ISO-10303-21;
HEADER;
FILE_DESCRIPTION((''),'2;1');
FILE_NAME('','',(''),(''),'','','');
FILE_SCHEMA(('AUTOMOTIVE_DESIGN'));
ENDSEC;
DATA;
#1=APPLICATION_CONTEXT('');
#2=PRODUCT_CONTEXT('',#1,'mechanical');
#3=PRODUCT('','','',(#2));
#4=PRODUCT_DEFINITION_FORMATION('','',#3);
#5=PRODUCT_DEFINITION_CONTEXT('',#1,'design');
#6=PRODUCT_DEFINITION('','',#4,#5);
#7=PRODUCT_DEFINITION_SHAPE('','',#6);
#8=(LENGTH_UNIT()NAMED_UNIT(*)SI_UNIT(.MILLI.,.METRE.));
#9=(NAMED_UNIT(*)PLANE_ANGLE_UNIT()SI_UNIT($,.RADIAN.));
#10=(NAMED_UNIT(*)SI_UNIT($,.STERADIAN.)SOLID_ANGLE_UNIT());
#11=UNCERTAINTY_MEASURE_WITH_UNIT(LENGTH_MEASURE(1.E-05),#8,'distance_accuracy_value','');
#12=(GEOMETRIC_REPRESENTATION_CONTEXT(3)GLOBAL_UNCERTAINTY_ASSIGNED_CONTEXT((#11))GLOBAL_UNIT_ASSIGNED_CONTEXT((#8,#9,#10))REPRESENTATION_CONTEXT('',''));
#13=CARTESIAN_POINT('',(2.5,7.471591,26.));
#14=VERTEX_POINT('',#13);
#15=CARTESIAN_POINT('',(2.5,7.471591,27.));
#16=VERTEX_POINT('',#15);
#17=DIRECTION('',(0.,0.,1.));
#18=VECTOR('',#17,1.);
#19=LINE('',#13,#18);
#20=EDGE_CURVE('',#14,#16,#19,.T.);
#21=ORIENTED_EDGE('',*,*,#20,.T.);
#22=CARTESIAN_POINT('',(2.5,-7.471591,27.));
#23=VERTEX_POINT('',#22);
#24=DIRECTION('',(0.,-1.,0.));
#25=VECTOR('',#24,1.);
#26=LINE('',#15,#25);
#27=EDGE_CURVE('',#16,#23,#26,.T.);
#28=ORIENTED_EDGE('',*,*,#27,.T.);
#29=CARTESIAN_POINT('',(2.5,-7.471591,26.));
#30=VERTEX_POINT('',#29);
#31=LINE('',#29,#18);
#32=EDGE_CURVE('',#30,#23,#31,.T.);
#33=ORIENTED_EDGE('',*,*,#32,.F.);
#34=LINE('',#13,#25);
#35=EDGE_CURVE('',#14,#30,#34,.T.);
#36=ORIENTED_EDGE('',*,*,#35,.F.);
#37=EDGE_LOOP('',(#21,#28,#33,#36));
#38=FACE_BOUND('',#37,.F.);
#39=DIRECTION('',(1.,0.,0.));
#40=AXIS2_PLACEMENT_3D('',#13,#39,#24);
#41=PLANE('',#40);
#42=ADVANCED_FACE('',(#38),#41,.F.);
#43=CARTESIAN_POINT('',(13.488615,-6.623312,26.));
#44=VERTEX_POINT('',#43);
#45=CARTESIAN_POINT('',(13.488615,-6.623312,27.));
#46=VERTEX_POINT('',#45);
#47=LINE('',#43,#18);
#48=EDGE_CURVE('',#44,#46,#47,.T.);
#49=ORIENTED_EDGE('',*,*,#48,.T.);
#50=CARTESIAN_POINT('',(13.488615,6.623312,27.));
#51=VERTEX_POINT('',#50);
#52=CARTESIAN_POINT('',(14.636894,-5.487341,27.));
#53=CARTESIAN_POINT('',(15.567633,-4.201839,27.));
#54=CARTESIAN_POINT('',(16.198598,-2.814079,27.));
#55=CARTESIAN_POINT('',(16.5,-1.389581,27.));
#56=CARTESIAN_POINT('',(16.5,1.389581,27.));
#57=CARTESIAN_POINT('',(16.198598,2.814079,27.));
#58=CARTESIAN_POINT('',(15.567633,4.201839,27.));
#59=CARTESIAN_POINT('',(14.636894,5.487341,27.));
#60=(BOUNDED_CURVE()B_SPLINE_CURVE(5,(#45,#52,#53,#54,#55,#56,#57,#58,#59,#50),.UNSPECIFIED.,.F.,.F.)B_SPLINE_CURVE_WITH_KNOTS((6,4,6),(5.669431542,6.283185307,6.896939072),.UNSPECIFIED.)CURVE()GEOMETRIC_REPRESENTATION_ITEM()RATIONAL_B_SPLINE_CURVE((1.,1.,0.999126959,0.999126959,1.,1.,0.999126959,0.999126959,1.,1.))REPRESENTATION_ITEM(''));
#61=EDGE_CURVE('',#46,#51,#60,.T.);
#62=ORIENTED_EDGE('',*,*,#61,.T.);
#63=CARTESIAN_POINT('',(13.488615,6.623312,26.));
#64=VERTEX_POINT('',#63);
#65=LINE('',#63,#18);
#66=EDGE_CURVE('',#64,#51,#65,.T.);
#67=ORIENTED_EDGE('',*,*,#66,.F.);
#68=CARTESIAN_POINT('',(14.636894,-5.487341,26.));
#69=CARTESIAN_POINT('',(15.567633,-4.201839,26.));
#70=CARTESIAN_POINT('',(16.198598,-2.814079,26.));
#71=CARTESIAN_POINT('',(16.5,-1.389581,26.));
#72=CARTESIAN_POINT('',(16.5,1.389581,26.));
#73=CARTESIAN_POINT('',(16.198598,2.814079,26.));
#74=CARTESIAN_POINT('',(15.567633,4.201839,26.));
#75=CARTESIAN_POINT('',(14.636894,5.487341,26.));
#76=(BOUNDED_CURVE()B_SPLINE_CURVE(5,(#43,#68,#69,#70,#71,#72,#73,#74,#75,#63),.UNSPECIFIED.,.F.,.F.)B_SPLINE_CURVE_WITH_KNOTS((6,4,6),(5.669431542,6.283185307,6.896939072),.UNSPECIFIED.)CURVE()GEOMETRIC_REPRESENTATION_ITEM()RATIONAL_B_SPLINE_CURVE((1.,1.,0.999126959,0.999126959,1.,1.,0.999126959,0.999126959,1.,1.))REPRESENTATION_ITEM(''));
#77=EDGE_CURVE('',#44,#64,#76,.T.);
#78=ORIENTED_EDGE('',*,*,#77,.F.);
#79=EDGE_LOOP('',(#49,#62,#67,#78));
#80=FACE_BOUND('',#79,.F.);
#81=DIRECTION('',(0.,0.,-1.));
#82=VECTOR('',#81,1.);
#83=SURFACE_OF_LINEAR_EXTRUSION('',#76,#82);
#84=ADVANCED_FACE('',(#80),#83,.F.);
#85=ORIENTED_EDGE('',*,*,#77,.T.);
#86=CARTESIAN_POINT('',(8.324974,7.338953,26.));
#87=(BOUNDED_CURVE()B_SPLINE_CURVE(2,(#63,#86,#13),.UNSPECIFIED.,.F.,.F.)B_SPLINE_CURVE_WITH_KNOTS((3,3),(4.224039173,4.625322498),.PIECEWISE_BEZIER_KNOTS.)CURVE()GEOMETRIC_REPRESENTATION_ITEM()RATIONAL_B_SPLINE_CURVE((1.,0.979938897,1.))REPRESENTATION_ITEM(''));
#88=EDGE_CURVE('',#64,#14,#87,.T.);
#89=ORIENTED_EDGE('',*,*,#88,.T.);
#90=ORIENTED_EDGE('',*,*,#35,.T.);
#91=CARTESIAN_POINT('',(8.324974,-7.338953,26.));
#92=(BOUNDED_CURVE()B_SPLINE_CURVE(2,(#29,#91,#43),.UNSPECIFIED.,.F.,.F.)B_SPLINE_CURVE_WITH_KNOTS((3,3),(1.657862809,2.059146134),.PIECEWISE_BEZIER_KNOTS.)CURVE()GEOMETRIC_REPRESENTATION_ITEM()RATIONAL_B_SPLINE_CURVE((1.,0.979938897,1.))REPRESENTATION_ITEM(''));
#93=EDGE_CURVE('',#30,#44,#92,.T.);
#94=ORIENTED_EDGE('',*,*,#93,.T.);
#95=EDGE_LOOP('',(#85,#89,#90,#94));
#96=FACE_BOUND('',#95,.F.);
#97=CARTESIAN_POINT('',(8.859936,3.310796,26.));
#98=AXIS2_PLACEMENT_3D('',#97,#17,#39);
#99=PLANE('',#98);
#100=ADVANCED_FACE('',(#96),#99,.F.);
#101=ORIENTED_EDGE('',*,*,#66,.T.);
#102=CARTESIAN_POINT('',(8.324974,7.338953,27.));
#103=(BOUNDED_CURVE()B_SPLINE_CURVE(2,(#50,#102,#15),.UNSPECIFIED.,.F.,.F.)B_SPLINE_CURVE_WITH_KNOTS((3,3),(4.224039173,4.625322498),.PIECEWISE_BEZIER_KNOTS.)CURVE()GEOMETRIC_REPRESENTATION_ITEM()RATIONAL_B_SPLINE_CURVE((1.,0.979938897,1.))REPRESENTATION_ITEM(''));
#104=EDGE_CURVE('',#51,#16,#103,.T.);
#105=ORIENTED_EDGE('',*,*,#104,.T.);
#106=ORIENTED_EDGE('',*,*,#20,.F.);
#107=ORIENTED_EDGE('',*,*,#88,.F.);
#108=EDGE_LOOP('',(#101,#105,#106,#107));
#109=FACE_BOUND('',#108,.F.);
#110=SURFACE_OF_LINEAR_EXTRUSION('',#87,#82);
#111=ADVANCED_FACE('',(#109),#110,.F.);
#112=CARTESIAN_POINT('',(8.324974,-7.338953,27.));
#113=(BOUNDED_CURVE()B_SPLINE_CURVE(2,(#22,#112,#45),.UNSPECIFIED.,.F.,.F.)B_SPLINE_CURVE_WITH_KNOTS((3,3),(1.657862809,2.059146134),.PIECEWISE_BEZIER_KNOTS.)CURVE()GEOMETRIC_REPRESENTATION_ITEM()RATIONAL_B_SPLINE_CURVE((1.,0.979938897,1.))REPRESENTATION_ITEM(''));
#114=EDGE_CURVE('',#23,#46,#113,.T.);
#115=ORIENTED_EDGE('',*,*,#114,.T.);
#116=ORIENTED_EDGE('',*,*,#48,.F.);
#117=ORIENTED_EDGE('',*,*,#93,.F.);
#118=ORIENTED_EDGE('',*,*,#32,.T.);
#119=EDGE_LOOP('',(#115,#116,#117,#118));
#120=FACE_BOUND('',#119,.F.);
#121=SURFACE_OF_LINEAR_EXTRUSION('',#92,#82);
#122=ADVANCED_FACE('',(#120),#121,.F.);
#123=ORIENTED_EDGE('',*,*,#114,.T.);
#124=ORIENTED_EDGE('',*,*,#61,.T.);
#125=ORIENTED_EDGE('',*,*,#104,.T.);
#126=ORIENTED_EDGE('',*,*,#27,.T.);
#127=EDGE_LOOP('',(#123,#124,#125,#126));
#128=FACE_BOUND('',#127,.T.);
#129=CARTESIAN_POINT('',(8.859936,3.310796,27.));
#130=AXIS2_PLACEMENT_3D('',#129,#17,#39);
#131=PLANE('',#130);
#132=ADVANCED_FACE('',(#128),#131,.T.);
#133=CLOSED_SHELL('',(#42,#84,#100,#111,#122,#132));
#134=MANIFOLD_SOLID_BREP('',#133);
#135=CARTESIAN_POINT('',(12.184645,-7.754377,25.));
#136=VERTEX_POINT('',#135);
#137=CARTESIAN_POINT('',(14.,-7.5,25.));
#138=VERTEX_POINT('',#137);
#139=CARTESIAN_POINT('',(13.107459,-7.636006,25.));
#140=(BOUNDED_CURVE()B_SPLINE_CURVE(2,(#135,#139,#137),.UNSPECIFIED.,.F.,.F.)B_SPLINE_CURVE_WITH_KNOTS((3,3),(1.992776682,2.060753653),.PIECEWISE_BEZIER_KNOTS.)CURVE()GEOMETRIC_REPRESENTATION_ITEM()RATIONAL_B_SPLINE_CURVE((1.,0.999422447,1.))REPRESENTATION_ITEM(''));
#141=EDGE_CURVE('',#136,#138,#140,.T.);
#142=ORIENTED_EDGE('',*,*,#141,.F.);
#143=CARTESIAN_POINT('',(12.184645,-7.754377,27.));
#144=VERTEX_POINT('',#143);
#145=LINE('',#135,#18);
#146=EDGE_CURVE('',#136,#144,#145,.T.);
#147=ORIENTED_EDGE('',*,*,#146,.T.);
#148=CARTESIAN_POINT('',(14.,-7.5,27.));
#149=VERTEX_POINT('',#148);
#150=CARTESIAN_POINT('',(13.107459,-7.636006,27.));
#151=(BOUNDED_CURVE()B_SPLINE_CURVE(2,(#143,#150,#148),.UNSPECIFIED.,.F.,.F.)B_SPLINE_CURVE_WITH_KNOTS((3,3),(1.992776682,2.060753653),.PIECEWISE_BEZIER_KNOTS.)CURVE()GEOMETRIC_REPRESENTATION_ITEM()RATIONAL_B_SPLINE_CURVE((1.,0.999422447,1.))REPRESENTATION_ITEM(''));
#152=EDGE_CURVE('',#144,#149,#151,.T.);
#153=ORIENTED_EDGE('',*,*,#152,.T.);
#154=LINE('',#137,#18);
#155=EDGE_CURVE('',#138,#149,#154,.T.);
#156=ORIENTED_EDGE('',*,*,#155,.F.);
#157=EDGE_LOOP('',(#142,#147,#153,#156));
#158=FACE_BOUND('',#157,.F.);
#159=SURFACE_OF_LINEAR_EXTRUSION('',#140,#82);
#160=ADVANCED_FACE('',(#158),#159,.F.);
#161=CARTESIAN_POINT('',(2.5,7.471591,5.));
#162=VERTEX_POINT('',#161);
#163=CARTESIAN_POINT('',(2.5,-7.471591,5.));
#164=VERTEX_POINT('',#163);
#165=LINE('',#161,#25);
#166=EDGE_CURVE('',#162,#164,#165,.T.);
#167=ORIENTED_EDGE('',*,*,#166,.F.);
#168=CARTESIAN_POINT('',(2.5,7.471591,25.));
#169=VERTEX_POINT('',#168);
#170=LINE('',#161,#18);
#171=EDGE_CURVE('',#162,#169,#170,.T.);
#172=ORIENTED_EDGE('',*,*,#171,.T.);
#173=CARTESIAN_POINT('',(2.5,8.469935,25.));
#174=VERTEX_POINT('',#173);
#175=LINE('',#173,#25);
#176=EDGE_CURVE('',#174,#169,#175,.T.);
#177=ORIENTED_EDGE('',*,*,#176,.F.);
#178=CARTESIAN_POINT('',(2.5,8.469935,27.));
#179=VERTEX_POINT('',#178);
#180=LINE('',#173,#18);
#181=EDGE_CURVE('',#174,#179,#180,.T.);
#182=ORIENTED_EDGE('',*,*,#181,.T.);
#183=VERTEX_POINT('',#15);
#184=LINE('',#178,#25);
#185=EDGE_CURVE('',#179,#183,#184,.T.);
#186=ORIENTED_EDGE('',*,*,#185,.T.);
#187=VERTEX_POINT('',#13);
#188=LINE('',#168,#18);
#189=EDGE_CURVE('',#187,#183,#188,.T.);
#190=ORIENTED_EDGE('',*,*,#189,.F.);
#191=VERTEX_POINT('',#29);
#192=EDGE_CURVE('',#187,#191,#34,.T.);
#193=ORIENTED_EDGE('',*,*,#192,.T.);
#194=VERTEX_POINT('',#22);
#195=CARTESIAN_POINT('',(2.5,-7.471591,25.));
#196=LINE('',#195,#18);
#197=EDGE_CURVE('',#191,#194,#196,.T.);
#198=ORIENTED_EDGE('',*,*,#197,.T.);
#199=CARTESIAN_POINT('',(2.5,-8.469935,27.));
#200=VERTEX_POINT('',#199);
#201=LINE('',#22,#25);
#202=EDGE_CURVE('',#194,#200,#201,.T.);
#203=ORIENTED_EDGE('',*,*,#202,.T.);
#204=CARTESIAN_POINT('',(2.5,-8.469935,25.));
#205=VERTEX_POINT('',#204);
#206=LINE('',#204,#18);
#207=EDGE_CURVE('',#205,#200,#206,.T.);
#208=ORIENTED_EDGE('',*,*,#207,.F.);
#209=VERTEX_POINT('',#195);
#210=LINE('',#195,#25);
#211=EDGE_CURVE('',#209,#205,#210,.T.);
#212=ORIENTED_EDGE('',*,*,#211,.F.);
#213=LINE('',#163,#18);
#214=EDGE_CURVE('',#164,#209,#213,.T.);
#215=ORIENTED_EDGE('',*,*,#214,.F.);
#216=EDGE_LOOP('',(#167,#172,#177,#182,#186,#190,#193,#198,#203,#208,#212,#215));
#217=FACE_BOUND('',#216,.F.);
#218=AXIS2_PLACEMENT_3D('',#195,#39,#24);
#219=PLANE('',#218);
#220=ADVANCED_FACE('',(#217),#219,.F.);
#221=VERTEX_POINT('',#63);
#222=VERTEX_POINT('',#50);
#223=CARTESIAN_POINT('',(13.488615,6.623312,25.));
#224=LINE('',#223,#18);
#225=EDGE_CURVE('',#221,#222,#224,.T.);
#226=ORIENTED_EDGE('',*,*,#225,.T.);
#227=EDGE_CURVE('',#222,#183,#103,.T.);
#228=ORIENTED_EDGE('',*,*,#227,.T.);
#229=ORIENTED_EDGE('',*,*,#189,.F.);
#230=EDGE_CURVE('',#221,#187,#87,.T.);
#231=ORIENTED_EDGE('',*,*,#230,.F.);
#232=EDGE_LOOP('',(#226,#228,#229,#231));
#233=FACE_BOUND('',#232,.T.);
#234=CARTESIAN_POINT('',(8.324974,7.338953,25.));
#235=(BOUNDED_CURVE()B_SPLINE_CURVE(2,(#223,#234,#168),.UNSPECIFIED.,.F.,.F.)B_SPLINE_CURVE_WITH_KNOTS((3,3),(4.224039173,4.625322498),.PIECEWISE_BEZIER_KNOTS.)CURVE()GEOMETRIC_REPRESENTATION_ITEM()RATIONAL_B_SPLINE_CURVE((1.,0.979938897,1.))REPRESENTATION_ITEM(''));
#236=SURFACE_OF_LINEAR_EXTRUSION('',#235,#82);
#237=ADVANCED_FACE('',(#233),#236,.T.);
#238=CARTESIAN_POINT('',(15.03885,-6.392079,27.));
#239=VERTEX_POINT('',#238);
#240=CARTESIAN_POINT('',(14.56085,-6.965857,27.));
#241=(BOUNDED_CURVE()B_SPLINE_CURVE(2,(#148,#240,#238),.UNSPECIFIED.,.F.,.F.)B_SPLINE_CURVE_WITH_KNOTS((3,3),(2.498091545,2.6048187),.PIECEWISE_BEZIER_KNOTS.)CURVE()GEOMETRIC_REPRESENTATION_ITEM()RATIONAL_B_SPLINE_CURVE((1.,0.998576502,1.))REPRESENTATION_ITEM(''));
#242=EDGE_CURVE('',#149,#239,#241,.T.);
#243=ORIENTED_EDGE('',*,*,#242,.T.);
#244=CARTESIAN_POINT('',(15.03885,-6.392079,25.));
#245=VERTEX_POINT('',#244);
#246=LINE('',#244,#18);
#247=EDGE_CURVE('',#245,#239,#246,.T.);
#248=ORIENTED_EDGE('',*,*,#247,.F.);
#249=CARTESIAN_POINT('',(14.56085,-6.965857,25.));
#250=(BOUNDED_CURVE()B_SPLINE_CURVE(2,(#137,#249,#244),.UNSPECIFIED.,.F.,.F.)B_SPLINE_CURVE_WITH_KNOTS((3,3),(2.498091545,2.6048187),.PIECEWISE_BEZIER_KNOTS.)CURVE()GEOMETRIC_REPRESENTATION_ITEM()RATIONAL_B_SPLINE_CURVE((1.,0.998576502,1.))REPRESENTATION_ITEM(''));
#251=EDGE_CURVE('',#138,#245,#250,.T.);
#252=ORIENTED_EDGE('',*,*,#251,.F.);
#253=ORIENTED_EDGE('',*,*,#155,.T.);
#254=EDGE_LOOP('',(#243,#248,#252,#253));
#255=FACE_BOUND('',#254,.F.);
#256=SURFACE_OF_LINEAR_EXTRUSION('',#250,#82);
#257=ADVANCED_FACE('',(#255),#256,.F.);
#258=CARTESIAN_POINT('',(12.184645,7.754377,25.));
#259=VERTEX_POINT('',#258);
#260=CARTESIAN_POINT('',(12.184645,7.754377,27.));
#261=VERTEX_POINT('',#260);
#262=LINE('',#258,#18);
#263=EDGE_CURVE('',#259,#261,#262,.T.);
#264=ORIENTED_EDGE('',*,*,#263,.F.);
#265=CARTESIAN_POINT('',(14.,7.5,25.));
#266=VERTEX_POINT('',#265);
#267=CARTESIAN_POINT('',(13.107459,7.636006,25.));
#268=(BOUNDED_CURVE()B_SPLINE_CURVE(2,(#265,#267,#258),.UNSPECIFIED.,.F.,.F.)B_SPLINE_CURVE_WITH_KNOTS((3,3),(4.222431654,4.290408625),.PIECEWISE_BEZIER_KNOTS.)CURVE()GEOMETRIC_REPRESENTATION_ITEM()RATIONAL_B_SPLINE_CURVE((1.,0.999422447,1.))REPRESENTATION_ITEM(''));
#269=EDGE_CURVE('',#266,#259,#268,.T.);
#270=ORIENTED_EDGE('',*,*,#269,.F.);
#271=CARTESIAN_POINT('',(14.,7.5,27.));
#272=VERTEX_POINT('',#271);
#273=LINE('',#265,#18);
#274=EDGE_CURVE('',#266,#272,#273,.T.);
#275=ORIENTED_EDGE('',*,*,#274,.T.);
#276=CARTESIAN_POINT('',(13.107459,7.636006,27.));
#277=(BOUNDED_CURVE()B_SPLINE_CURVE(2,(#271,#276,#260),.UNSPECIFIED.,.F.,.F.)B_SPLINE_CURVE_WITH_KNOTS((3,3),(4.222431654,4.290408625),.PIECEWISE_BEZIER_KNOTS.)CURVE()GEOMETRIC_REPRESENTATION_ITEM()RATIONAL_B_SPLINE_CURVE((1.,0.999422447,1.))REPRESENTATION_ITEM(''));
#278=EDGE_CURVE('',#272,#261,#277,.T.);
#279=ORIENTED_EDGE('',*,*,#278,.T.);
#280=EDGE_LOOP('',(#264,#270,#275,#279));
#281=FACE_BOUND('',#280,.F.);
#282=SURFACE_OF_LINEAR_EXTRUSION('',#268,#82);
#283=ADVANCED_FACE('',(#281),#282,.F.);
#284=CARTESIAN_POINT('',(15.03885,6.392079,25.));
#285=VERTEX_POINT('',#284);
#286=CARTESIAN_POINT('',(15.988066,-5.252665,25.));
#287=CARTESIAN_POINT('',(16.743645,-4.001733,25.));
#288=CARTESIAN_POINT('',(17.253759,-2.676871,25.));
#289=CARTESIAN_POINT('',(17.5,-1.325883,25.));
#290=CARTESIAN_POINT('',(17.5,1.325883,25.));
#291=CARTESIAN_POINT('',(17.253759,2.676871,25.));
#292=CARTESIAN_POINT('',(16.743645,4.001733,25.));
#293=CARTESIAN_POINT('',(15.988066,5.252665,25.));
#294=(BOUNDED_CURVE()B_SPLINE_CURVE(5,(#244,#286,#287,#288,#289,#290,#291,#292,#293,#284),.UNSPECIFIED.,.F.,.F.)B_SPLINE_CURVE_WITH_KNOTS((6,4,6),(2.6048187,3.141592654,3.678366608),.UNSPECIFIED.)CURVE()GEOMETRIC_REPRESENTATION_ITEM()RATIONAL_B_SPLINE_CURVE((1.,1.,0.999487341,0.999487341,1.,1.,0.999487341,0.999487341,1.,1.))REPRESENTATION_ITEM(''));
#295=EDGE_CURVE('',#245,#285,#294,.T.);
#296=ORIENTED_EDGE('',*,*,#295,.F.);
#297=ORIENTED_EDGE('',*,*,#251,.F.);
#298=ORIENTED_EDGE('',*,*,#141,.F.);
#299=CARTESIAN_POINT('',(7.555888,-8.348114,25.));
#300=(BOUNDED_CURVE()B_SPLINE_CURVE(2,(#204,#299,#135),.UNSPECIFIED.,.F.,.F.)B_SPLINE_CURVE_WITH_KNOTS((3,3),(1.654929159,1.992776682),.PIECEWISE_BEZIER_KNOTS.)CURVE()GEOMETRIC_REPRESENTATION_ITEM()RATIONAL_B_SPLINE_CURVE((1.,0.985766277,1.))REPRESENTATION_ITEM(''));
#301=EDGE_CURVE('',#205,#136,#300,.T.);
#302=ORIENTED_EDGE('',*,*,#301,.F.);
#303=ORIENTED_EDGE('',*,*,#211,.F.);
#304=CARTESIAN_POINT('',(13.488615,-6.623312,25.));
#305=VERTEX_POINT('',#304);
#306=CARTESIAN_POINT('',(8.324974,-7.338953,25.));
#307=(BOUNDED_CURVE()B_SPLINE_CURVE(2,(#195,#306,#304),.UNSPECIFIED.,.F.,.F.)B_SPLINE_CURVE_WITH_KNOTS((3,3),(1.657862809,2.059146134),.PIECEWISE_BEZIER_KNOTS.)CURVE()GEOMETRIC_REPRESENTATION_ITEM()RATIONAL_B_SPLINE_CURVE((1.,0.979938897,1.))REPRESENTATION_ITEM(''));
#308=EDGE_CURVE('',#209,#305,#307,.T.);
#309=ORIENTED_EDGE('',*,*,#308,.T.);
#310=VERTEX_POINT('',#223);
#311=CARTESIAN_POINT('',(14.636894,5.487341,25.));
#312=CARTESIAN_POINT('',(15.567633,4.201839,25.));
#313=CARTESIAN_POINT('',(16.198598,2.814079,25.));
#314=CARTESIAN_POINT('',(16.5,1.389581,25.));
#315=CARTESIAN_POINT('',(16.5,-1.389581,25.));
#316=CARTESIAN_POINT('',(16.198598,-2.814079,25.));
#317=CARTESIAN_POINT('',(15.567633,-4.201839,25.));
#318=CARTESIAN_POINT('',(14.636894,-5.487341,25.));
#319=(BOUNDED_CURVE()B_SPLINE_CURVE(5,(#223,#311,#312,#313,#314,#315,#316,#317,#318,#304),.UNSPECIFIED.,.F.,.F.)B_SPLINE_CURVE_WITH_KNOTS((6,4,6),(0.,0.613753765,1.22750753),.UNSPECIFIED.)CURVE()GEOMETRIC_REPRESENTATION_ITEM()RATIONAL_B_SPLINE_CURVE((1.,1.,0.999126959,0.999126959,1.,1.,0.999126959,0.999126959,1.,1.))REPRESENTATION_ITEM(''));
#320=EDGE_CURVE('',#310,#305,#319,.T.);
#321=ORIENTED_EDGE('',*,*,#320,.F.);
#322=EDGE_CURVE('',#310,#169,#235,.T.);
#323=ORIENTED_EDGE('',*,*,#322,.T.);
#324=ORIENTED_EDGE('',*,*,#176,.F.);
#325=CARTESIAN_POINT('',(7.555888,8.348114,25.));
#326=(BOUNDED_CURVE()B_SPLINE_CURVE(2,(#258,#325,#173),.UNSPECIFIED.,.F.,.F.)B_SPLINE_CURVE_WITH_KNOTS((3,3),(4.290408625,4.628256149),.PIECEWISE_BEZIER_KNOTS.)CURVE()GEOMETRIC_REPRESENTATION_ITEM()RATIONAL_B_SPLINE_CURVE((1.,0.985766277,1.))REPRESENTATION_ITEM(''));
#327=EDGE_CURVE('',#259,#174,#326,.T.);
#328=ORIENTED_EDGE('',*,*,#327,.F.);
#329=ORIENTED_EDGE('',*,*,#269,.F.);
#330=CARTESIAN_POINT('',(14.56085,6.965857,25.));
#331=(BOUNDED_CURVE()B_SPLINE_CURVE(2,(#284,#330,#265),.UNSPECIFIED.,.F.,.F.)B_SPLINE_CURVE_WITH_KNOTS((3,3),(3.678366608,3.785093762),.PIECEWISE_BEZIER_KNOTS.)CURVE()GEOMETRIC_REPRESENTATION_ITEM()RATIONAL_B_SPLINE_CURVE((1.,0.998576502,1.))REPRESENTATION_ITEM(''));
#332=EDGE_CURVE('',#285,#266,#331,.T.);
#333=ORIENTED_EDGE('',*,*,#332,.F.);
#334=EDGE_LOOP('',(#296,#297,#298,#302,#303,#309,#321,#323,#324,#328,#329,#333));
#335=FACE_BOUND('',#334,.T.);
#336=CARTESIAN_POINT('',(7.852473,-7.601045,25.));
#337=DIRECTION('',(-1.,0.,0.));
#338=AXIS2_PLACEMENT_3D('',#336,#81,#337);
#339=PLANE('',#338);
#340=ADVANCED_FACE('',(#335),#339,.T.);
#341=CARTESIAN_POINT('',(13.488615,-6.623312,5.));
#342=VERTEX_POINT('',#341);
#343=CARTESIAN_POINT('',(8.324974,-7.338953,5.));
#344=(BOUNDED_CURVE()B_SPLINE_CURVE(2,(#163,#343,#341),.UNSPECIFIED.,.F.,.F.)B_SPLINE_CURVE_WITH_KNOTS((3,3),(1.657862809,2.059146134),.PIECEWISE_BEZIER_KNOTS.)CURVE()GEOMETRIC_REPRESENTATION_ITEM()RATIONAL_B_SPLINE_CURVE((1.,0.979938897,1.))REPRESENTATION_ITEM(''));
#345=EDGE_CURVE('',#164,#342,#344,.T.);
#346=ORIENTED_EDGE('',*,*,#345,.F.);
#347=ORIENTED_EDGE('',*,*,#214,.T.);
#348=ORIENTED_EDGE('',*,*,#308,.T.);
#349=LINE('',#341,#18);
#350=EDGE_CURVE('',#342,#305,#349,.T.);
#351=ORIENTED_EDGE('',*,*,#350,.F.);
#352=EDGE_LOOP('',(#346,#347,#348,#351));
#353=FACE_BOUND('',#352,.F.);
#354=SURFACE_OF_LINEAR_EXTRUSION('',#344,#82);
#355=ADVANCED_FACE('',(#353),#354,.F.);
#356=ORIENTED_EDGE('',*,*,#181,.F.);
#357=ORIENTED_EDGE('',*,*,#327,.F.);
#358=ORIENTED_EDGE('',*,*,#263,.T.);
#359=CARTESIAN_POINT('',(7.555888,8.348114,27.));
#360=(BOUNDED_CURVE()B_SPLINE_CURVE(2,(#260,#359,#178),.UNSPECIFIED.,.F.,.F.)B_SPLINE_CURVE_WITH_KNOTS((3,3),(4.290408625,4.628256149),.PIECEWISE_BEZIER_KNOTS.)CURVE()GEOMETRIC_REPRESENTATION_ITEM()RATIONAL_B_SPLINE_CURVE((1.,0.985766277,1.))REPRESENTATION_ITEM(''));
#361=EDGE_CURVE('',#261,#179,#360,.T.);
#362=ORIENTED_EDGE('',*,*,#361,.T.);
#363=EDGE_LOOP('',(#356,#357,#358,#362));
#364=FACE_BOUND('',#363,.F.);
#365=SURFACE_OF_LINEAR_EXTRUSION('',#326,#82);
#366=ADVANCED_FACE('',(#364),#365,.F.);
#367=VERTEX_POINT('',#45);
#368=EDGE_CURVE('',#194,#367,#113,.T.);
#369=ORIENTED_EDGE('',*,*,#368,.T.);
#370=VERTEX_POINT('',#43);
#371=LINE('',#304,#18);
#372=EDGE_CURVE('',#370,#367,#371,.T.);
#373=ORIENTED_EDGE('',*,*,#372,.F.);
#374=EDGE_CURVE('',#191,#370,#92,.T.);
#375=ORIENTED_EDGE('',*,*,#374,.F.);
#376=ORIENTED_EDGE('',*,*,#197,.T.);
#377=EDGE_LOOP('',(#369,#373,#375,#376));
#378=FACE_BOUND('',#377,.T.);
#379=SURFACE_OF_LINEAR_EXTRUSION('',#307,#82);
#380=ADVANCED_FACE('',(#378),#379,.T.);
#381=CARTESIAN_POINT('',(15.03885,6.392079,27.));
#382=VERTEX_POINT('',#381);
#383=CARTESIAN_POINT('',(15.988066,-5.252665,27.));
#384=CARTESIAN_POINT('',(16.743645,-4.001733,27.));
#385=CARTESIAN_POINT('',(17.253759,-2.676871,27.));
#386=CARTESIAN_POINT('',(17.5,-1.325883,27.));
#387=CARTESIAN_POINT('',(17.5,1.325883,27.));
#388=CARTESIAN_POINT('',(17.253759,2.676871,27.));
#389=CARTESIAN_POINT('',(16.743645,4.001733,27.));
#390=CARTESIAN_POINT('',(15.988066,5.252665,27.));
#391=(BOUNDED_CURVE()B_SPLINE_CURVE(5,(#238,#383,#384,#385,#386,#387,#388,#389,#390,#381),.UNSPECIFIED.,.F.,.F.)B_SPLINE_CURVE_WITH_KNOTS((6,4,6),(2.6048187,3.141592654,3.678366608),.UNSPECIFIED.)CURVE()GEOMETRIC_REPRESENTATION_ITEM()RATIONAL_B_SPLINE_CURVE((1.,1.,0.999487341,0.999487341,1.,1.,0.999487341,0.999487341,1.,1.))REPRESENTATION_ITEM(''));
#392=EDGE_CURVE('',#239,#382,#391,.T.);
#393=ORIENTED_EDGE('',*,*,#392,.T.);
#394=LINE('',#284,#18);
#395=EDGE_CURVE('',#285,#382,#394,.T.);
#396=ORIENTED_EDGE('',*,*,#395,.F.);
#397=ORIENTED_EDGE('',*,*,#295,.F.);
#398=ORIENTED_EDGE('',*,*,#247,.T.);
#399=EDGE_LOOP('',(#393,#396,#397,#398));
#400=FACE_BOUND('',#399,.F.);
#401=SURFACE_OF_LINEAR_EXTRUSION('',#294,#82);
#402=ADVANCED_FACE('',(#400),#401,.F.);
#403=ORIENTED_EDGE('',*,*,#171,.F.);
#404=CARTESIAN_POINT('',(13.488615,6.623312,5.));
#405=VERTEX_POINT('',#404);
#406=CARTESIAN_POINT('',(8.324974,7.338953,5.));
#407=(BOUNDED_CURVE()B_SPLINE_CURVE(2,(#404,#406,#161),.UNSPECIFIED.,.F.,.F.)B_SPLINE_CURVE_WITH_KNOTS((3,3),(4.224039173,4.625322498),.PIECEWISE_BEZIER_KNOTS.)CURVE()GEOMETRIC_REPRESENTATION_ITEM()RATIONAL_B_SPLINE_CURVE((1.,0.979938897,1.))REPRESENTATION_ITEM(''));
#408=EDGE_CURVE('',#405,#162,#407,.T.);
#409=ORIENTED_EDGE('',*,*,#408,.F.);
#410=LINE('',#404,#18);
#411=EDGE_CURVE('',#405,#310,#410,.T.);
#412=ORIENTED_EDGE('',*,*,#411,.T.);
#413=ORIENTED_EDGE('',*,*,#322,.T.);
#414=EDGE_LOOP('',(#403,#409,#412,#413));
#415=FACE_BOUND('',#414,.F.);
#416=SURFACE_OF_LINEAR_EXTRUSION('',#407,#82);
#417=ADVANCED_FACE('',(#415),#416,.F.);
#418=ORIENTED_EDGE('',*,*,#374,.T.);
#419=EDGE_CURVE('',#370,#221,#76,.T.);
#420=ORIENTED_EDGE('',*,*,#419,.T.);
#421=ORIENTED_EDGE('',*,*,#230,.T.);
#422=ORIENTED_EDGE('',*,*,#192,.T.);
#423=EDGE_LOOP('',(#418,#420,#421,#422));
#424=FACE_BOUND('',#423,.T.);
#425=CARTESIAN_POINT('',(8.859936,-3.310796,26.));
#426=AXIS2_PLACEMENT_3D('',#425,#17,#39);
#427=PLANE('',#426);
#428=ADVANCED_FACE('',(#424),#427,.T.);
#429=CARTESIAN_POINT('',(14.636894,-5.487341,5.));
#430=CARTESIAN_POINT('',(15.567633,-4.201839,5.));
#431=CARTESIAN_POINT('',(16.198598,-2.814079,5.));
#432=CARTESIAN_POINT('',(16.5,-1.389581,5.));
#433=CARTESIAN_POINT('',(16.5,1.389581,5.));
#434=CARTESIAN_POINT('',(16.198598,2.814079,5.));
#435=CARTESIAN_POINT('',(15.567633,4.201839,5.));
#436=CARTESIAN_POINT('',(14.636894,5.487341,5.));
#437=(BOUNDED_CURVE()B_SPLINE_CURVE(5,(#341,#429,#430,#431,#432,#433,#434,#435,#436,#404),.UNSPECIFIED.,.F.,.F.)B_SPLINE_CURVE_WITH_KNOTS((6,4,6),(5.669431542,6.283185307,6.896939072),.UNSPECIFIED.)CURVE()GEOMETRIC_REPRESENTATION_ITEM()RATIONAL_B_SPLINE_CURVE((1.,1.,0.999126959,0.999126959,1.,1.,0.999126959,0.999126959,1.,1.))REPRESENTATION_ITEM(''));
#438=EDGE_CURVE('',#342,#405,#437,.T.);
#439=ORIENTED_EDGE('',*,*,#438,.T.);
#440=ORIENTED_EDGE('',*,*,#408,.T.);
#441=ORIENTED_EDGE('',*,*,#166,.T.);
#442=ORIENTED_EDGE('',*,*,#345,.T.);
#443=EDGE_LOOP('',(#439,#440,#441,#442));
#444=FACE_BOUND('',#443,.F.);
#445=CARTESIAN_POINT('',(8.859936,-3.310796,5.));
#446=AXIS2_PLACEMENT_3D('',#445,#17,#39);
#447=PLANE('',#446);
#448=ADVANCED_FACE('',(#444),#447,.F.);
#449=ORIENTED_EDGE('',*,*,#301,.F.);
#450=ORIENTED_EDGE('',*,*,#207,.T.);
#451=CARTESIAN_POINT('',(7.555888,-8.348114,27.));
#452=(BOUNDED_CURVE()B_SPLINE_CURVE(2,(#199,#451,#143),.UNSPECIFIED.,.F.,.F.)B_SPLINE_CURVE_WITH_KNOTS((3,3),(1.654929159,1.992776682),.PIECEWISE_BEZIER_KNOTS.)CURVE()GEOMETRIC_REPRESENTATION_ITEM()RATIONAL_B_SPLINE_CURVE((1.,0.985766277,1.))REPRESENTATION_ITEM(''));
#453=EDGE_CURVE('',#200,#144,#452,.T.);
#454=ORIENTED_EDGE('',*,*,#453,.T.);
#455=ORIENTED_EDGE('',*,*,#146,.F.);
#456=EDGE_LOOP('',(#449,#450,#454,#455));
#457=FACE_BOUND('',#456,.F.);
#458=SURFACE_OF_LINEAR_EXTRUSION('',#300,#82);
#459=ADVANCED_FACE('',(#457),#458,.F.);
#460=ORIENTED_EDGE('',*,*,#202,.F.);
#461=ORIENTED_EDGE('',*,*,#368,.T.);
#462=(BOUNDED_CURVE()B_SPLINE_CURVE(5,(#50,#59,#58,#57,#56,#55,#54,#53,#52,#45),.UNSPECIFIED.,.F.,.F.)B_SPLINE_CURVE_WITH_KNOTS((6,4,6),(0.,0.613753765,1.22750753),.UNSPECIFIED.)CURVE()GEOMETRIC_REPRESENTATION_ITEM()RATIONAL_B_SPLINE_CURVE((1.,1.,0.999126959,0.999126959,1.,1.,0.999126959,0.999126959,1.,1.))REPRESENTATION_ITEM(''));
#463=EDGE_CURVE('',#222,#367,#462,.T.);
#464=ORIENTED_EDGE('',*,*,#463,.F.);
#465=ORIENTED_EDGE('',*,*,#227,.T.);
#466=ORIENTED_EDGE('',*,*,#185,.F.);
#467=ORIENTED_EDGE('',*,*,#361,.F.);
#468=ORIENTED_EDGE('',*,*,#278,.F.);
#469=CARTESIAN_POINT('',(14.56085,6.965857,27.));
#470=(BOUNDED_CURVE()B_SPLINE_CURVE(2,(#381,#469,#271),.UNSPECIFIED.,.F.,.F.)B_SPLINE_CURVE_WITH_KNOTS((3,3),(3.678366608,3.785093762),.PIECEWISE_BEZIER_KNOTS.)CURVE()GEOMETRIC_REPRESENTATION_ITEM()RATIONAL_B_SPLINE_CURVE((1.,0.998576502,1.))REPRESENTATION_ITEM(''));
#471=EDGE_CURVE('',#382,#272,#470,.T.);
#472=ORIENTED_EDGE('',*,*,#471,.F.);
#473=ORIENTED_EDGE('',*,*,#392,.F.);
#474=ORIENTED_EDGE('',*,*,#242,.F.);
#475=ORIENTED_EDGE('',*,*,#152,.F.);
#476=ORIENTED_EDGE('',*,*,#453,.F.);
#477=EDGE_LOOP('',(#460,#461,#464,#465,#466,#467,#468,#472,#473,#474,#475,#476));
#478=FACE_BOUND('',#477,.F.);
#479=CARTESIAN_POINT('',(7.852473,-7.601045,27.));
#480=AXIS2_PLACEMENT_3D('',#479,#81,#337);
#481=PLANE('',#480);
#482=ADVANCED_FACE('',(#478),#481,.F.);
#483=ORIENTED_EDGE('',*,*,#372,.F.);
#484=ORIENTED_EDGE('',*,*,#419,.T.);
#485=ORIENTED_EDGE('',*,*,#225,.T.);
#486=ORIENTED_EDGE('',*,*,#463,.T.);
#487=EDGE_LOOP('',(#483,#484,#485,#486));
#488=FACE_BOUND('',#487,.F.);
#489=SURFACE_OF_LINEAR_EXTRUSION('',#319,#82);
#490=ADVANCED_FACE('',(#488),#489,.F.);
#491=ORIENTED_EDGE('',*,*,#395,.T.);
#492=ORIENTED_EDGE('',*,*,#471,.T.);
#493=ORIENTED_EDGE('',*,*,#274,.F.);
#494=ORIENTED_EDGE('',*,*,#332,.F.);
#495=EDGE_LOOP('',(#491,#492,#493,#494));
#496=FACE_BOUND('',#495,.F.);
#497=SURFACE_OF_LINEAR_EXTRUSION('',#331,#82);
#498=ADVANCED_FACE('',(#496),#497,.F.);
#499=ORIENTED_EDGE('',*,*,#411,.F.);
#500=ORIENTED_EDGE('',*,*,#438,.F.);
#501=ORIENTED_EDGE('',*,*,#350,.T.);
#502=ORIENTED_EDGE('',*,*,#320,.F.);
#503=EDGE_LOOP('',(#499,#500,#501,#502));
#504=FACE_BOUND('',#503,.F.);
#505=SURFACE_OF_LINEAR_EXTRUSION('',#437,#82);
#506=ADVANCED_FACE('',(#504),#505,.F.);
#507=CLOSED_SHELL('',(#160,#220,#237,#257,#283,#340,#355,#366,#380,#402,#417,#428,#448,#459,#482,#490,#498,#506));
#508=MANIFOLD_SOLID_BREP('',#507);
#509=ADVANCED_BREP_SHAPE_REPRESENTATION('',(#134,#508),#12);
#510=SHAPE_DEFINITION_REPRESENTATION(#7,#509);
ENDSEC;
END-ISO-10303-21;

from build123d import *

# Parameters (mm, degrees)
F1_START = 5
F1_DEPTH = 21
F2_START = 25
F2_DEPTH = 2
F3_START = 26
F3_DEPTH = 1


with BuildPart() as f1:
    # F0 (on Top) → F1 (new body)
    with BuildSketch(Plane.XY.offset(F1_START)):
        with BuildLine():
            Line((2.5, 0), (2.5, -7.471590807))
            add(Edge.make_bspline(
                [(2.5, -7.471590807), (8.3249735983, -7.3389528818), (13.4886153342, -6.6233121014)],
                knots=[1.6578628091, 1.6578628091, 1.6578628091, 2.0591461343, 2.0591461343, 2.0591461343], degree=2, weights=[1, 0.9799388974, 1]))
            add(Edge.make_bspline(
                [(13.4886153342, -6.6233121014), (16.5, -3.6442045908), (16.5, 0)],
                knots=[5.6694315423, 5.6694315423, 5.6694315423, 6.2831853072, 6.2831853072, 6.2831853072], degree=2, weights=[1, 0.9532816579, 1]))
            Line((16.5, 0), (2.5, 0))
        make_face()
        with BuildLine():
            add(Edge.make_bspline(
                [(13.4886153342, 6.6233121014), (8.3249735983, 7.3389528818), (2.5, 7.471590807)],
                knots=[4.2240391728, 4.2240391728, 4.2240391728, 4.625322498, 4.625322498, 4.625322498], degree=2, weights=[1, 0.9799388974, 1]))
            Line((2.5, 7.471590807), (2.5, 0))
            Line((2.5, 0), (16.5, 0))
            add(Edge.make_bspline(
                [(16.5, 0), (16.5, 3.6442045908), (13.4886153342, 6.6233121014)],
                knots=[0, 0, 0, 0.6137537649, 0.6137537649, 0.6137537649], degree=2, weights=[1, 0.9532816579, 1]))
        make_face()
    extrude(amount=F1_DEPTH)

    # F0 (on Top) → F2 (join)
    with BuildSketch(Plane.XY.offset(F2_START)):
        with BuildLine():
            add(Edge.make_bspline(
                [(2.5, -7.471590807), (8.3249735983, -7.3389528818), (13.4886153342, -6.6233121014)],
                knots=[1.6578628091, 1.6578628091, 1.6578628091, 2.0591461343, 2.0591461343, 2.0591461343], degree=2, weights=[1, 0.9799388974, 1]))
            Line((2.5, -7.471590807), (2.5, -8.4699348237))
            add(Edge.make_bspline(
                [(2.5, -8.4699348237), (7.5558884443, -8.3481140554), (12.1846448126, -7.754376938)],
                knots=[1.6549291585, 1.6549291585, 1.6549291585, 1.9927766821, 1.9927766821, 1.9927766821], degree=2, weights=[1, 0.9857662766, 1]))
            add(Edge.make_bspline(
                [(12.1846448126, -7.754376938), (12.887920486, -7.217568476), (13.4886153342, -6.6233121014)],
                knots=[5.5431775409, 5.5431775409, 5.5431775409, 5.6694315423, 5.6694315423, 5.6694315423], degree=2, weights=[1, 0.9980081525, 1]))
        make_face()
        with BuildLine():
            Line((2.5, 8.4699348237), (2.5, 7.471590807))
            add(Edge.make_bspline(
                [(13.4886153342, 6.6233121014), (8.3249735983, 7.3389528818), (2.5, 7.471590807)],
                knots=[4.2240391728, 4.2240391728, 4.2240391728, 4.625322498, 4.625322498, 4.625322498], degree=2, weights=[1, 0.9799388974, 1]))
            add(Edge.make_bspline(
                [(13.4886153342, 6.6233121014), (12.887920486, 7.217568476), (12.1846448126, 7.754376938)],
                knots=[0.6137537649, 0.6137537649, 0.6137537649, 0.7400077663, 0.7400077663, 0.7400077663], degree=2, weights=[1, 0.9980081525, 1]))
            add(Edge.make_bspline(
                [(12.1846448126, 7.754376938), (7.5558884443, 8.3481140554), (2.5, 8.4699348237)],
                knots=[4.290408625, 4.290408625, 4.290408625, 4.6282561487, 4.6282561487, 4.6282561487], degree=2, weights=[1, 0.9857662766, 1]))
        make_face()
        with BuildLine():
            add(Edge.make_bspline(
                [(13.4886153342, -6.6233121014), (14.2775033671, -6.5139783257), (15.0388497278, -6.3920789177)],
                knots=[2.0591461343, 2.0591461343, 2.0591461343, 2.1212693394, 2.1212693394, 2.1212693394], degree=2, weights=[1, 0.9995176272, 1]))
            add(Edge.make_bspline(
                [(15.0388497278, -6.3920789177), (17.5, -3.4377792084), (17.5, 0)],
                knots=[2.6048186996, 2.6048186996, 2.6048186996, 3.1415926536, 3.1415926536, 3.1415926536], degree=2, weights=[1, 0.9641998863, 1]))
            Line((17.5, 0), (16.5, 0))
            add(Edge.make_bspline(
                [(13.4886153342, -6.6233121014), (16.5, -3.6442045908), (16.5, 0)],
                knots=[5.6694315423, 5.6694315423, 5.6694315423, 6.2831853072, 6.2831853072, 6.2831853072], degree=2, weights=[1, 0.9532816579, 1]))
        make_face()
        with BuildLine():
            add(Edge.make_bspline(
                [(17.5, 0), (17.5, 3.4377792084), (15.0388497278, 6.3920789177)],
                knots=[3.1415926536, 3.1415926536, 3.1415926536, 3.6783666076, 3.6783666076, 3.6783666076], degree=2, weights=[1, 0.9641998863, 1]))
            add(Edge.make_bspline(
                [(15.0388497278, 6.3920789177), (14.2775033671, 6.5139783257), (13.4886153342, 6.6233121014)],
                knots=[4.1619159677, 4.1619159677, 4.1619159677, 4.2240391728, 4.2240391728, 4.2240391728], degree=2, weights=[1, 0.9995176272, 1]))
            add(Edge.make_bspline(
                [(16.5, 0), (16.5, 3.6442045908), (13.4886153342, 6.6233121014)],
                knots=[0, 0, 0, 0.6137537649, 0.6137537649, 0.6137537649], degree=2, weights=[1, 0.9532816579, 1]))
            Line((16.5, 0), (17.5, 0))
        make_face()
        with BuildLine():
            add(Edge.make_bspline(
                [(12.1846448126, -7.754376938), (13.1074585373, -7.6360063181), (14, -7.5)],
                knots=[1.9927766821, 1.9927766821, 1.9927766821, 2.060753653, 2.060753653, 2.060753653], degree=2, weights=[1, 0.999422447, 1]))
            add(Edge.make_bspline(
                [(14, -7.5), (14.5608500358, -6.9658571088), (15.0388497278, -6.3920789177)],
                knots=[2.4980915448, 2.4980915448, 2.4980915448, 2.6048186996, 2.6048186996, 2.6048186996], degree=2, weights=[1, 0.9985765022, 1]))
            add(Edge.make_bspline(
                [(13.4886153342, -6.6233121014), (14.2775033671, -6.5139783257), (15.0388497278, -6.3920789177)],
                knots=[2.0591461343, 2.0591461343, 2.0591461343, 2.1212693394, 2.1212693394, 2.1212693394], degree=2, weights=[1, 0.9995176272, 1]))
            add(Edge.make_bspline(
                [(12.1846448126, -7.754376938), (12.887920486, -7.217568476), (13.4886153342, -6.6233121014)],
                knots=[5.5431775409, 5.5431775409, 5.5431775409, 5.6694315423, 5.6694315423, 5.6694315423], degree=2, weights=[1, 0.9980081525, 1]))
        make_face()
        with BuildLine():
            add(Edge.make_bspline(
                [(15.0388497278, 6.3920789177), (14.5608500358, 6.9658571088), (14, 7.5)],
                knots=[3.6783666076, 3.6783666076, 3.6783666076, 3.7850937624, 3.7850937624, 3.7850937624], degree=2, weights=[1, 0.9985765022, 1]))
            add(Edge.make_bspline(
                [(14, 7.5), (13.1074585373, 7.6360063181), (12.1846448126, 7.754376938)],
                knots=[4.2224316541, 4.2224316541, 4.2224316541, 4.290408625, 4.290408625, 4.290408625], degree=2, weights=[1, 0.999422447, 1]))
            add(Edge.make_bspline(
                [(13.4886153342, 6.6233121014), (12.887920486, 7.217568476), (12.1846448126, 7.754376938)],
                knots=[0.6137537649, 0.6137537649, 0.6137537649, 0.7400077663, 0.7400077663, 0.7400077663], degree=2, weights=[1, 0.9980081525, 1]))
            add(Edge.make_bspline(
                [(15.0388497278, 6.3920789177), (14.2775033671, 6.5139783257), (13.4886153342, 6.6233121014)],
                knots=[4.1619159677, 4.1619159677, 4.1619159677, 4.2240391728, 4.2240391728, 4.2240391728], degree=2, weights=[1, 0.9995176272, 1]))
        make_face()
    extrude(amount=F2_DEPTH)


with BuildPart() as f3:
    # F0 (on Top) → F3 (new body)
    with BuildSketch(Plane.XY.offset(F3_START)):
        with BuildLine():
            add(Edge.make_bspline(
                [(13.4886153342, 6.6233121014), (8.3249735983, 7.3389528818), (2.5, 7.471590807)],
                knots=[4.2240391728, 4.2240391728, 4.2240391728, 4.625322498, 4.625322498, 4.625322498], degree=2, weights=[1, 0.9799388974, 1]))
            Line((2.5, 7.471590807), (2.5, 0))
            Line((2.5, 0), (16.5, 0))
            add(Edge.make_bspline(
                [(16.5, 0), (16.5, 3.6442045908), (13.4886153342, 6.6233121014)],
                knots=[0, 0, 0, 0.6137537649, 0.6137537649, 0.6137537649], degree=2, weights=[1, 0.9532816579, 1]))
        make_face()
        with BuildLine():
            Line((2.5, 0), (2.5, -7.471590807))
            add(Edge.make_bspline(
                [(2.5, -7.471590807), (8.3249735983, -7.3389528818), (13.4886153342, -6.6233121014)],
                knots=[1.6578628091, 1.6578628091, 1.6578628091, 2.0591461343, 2.0591461343, 2.0591461343], degree=2, weights=[1, 0.9799388974, 1]))
            add(Edge.make_bspline(
                [(13.4886153342, -6.6233121014), (16.5, -3.6442045908), (16.5, 0)],
                knots=[5.6694315423, 5.6694315423, 5.6694315423, 6.2831853072, 6.2831853072, 6.2831853072], degree=2, weights=[1, 0.9532816579, 1]))
            Line((16.5, 0), (2.5, 0))
        make_face()
    extrude(amount=F3_DEPTH)


solid = Compound([f1.part, f3.part])
